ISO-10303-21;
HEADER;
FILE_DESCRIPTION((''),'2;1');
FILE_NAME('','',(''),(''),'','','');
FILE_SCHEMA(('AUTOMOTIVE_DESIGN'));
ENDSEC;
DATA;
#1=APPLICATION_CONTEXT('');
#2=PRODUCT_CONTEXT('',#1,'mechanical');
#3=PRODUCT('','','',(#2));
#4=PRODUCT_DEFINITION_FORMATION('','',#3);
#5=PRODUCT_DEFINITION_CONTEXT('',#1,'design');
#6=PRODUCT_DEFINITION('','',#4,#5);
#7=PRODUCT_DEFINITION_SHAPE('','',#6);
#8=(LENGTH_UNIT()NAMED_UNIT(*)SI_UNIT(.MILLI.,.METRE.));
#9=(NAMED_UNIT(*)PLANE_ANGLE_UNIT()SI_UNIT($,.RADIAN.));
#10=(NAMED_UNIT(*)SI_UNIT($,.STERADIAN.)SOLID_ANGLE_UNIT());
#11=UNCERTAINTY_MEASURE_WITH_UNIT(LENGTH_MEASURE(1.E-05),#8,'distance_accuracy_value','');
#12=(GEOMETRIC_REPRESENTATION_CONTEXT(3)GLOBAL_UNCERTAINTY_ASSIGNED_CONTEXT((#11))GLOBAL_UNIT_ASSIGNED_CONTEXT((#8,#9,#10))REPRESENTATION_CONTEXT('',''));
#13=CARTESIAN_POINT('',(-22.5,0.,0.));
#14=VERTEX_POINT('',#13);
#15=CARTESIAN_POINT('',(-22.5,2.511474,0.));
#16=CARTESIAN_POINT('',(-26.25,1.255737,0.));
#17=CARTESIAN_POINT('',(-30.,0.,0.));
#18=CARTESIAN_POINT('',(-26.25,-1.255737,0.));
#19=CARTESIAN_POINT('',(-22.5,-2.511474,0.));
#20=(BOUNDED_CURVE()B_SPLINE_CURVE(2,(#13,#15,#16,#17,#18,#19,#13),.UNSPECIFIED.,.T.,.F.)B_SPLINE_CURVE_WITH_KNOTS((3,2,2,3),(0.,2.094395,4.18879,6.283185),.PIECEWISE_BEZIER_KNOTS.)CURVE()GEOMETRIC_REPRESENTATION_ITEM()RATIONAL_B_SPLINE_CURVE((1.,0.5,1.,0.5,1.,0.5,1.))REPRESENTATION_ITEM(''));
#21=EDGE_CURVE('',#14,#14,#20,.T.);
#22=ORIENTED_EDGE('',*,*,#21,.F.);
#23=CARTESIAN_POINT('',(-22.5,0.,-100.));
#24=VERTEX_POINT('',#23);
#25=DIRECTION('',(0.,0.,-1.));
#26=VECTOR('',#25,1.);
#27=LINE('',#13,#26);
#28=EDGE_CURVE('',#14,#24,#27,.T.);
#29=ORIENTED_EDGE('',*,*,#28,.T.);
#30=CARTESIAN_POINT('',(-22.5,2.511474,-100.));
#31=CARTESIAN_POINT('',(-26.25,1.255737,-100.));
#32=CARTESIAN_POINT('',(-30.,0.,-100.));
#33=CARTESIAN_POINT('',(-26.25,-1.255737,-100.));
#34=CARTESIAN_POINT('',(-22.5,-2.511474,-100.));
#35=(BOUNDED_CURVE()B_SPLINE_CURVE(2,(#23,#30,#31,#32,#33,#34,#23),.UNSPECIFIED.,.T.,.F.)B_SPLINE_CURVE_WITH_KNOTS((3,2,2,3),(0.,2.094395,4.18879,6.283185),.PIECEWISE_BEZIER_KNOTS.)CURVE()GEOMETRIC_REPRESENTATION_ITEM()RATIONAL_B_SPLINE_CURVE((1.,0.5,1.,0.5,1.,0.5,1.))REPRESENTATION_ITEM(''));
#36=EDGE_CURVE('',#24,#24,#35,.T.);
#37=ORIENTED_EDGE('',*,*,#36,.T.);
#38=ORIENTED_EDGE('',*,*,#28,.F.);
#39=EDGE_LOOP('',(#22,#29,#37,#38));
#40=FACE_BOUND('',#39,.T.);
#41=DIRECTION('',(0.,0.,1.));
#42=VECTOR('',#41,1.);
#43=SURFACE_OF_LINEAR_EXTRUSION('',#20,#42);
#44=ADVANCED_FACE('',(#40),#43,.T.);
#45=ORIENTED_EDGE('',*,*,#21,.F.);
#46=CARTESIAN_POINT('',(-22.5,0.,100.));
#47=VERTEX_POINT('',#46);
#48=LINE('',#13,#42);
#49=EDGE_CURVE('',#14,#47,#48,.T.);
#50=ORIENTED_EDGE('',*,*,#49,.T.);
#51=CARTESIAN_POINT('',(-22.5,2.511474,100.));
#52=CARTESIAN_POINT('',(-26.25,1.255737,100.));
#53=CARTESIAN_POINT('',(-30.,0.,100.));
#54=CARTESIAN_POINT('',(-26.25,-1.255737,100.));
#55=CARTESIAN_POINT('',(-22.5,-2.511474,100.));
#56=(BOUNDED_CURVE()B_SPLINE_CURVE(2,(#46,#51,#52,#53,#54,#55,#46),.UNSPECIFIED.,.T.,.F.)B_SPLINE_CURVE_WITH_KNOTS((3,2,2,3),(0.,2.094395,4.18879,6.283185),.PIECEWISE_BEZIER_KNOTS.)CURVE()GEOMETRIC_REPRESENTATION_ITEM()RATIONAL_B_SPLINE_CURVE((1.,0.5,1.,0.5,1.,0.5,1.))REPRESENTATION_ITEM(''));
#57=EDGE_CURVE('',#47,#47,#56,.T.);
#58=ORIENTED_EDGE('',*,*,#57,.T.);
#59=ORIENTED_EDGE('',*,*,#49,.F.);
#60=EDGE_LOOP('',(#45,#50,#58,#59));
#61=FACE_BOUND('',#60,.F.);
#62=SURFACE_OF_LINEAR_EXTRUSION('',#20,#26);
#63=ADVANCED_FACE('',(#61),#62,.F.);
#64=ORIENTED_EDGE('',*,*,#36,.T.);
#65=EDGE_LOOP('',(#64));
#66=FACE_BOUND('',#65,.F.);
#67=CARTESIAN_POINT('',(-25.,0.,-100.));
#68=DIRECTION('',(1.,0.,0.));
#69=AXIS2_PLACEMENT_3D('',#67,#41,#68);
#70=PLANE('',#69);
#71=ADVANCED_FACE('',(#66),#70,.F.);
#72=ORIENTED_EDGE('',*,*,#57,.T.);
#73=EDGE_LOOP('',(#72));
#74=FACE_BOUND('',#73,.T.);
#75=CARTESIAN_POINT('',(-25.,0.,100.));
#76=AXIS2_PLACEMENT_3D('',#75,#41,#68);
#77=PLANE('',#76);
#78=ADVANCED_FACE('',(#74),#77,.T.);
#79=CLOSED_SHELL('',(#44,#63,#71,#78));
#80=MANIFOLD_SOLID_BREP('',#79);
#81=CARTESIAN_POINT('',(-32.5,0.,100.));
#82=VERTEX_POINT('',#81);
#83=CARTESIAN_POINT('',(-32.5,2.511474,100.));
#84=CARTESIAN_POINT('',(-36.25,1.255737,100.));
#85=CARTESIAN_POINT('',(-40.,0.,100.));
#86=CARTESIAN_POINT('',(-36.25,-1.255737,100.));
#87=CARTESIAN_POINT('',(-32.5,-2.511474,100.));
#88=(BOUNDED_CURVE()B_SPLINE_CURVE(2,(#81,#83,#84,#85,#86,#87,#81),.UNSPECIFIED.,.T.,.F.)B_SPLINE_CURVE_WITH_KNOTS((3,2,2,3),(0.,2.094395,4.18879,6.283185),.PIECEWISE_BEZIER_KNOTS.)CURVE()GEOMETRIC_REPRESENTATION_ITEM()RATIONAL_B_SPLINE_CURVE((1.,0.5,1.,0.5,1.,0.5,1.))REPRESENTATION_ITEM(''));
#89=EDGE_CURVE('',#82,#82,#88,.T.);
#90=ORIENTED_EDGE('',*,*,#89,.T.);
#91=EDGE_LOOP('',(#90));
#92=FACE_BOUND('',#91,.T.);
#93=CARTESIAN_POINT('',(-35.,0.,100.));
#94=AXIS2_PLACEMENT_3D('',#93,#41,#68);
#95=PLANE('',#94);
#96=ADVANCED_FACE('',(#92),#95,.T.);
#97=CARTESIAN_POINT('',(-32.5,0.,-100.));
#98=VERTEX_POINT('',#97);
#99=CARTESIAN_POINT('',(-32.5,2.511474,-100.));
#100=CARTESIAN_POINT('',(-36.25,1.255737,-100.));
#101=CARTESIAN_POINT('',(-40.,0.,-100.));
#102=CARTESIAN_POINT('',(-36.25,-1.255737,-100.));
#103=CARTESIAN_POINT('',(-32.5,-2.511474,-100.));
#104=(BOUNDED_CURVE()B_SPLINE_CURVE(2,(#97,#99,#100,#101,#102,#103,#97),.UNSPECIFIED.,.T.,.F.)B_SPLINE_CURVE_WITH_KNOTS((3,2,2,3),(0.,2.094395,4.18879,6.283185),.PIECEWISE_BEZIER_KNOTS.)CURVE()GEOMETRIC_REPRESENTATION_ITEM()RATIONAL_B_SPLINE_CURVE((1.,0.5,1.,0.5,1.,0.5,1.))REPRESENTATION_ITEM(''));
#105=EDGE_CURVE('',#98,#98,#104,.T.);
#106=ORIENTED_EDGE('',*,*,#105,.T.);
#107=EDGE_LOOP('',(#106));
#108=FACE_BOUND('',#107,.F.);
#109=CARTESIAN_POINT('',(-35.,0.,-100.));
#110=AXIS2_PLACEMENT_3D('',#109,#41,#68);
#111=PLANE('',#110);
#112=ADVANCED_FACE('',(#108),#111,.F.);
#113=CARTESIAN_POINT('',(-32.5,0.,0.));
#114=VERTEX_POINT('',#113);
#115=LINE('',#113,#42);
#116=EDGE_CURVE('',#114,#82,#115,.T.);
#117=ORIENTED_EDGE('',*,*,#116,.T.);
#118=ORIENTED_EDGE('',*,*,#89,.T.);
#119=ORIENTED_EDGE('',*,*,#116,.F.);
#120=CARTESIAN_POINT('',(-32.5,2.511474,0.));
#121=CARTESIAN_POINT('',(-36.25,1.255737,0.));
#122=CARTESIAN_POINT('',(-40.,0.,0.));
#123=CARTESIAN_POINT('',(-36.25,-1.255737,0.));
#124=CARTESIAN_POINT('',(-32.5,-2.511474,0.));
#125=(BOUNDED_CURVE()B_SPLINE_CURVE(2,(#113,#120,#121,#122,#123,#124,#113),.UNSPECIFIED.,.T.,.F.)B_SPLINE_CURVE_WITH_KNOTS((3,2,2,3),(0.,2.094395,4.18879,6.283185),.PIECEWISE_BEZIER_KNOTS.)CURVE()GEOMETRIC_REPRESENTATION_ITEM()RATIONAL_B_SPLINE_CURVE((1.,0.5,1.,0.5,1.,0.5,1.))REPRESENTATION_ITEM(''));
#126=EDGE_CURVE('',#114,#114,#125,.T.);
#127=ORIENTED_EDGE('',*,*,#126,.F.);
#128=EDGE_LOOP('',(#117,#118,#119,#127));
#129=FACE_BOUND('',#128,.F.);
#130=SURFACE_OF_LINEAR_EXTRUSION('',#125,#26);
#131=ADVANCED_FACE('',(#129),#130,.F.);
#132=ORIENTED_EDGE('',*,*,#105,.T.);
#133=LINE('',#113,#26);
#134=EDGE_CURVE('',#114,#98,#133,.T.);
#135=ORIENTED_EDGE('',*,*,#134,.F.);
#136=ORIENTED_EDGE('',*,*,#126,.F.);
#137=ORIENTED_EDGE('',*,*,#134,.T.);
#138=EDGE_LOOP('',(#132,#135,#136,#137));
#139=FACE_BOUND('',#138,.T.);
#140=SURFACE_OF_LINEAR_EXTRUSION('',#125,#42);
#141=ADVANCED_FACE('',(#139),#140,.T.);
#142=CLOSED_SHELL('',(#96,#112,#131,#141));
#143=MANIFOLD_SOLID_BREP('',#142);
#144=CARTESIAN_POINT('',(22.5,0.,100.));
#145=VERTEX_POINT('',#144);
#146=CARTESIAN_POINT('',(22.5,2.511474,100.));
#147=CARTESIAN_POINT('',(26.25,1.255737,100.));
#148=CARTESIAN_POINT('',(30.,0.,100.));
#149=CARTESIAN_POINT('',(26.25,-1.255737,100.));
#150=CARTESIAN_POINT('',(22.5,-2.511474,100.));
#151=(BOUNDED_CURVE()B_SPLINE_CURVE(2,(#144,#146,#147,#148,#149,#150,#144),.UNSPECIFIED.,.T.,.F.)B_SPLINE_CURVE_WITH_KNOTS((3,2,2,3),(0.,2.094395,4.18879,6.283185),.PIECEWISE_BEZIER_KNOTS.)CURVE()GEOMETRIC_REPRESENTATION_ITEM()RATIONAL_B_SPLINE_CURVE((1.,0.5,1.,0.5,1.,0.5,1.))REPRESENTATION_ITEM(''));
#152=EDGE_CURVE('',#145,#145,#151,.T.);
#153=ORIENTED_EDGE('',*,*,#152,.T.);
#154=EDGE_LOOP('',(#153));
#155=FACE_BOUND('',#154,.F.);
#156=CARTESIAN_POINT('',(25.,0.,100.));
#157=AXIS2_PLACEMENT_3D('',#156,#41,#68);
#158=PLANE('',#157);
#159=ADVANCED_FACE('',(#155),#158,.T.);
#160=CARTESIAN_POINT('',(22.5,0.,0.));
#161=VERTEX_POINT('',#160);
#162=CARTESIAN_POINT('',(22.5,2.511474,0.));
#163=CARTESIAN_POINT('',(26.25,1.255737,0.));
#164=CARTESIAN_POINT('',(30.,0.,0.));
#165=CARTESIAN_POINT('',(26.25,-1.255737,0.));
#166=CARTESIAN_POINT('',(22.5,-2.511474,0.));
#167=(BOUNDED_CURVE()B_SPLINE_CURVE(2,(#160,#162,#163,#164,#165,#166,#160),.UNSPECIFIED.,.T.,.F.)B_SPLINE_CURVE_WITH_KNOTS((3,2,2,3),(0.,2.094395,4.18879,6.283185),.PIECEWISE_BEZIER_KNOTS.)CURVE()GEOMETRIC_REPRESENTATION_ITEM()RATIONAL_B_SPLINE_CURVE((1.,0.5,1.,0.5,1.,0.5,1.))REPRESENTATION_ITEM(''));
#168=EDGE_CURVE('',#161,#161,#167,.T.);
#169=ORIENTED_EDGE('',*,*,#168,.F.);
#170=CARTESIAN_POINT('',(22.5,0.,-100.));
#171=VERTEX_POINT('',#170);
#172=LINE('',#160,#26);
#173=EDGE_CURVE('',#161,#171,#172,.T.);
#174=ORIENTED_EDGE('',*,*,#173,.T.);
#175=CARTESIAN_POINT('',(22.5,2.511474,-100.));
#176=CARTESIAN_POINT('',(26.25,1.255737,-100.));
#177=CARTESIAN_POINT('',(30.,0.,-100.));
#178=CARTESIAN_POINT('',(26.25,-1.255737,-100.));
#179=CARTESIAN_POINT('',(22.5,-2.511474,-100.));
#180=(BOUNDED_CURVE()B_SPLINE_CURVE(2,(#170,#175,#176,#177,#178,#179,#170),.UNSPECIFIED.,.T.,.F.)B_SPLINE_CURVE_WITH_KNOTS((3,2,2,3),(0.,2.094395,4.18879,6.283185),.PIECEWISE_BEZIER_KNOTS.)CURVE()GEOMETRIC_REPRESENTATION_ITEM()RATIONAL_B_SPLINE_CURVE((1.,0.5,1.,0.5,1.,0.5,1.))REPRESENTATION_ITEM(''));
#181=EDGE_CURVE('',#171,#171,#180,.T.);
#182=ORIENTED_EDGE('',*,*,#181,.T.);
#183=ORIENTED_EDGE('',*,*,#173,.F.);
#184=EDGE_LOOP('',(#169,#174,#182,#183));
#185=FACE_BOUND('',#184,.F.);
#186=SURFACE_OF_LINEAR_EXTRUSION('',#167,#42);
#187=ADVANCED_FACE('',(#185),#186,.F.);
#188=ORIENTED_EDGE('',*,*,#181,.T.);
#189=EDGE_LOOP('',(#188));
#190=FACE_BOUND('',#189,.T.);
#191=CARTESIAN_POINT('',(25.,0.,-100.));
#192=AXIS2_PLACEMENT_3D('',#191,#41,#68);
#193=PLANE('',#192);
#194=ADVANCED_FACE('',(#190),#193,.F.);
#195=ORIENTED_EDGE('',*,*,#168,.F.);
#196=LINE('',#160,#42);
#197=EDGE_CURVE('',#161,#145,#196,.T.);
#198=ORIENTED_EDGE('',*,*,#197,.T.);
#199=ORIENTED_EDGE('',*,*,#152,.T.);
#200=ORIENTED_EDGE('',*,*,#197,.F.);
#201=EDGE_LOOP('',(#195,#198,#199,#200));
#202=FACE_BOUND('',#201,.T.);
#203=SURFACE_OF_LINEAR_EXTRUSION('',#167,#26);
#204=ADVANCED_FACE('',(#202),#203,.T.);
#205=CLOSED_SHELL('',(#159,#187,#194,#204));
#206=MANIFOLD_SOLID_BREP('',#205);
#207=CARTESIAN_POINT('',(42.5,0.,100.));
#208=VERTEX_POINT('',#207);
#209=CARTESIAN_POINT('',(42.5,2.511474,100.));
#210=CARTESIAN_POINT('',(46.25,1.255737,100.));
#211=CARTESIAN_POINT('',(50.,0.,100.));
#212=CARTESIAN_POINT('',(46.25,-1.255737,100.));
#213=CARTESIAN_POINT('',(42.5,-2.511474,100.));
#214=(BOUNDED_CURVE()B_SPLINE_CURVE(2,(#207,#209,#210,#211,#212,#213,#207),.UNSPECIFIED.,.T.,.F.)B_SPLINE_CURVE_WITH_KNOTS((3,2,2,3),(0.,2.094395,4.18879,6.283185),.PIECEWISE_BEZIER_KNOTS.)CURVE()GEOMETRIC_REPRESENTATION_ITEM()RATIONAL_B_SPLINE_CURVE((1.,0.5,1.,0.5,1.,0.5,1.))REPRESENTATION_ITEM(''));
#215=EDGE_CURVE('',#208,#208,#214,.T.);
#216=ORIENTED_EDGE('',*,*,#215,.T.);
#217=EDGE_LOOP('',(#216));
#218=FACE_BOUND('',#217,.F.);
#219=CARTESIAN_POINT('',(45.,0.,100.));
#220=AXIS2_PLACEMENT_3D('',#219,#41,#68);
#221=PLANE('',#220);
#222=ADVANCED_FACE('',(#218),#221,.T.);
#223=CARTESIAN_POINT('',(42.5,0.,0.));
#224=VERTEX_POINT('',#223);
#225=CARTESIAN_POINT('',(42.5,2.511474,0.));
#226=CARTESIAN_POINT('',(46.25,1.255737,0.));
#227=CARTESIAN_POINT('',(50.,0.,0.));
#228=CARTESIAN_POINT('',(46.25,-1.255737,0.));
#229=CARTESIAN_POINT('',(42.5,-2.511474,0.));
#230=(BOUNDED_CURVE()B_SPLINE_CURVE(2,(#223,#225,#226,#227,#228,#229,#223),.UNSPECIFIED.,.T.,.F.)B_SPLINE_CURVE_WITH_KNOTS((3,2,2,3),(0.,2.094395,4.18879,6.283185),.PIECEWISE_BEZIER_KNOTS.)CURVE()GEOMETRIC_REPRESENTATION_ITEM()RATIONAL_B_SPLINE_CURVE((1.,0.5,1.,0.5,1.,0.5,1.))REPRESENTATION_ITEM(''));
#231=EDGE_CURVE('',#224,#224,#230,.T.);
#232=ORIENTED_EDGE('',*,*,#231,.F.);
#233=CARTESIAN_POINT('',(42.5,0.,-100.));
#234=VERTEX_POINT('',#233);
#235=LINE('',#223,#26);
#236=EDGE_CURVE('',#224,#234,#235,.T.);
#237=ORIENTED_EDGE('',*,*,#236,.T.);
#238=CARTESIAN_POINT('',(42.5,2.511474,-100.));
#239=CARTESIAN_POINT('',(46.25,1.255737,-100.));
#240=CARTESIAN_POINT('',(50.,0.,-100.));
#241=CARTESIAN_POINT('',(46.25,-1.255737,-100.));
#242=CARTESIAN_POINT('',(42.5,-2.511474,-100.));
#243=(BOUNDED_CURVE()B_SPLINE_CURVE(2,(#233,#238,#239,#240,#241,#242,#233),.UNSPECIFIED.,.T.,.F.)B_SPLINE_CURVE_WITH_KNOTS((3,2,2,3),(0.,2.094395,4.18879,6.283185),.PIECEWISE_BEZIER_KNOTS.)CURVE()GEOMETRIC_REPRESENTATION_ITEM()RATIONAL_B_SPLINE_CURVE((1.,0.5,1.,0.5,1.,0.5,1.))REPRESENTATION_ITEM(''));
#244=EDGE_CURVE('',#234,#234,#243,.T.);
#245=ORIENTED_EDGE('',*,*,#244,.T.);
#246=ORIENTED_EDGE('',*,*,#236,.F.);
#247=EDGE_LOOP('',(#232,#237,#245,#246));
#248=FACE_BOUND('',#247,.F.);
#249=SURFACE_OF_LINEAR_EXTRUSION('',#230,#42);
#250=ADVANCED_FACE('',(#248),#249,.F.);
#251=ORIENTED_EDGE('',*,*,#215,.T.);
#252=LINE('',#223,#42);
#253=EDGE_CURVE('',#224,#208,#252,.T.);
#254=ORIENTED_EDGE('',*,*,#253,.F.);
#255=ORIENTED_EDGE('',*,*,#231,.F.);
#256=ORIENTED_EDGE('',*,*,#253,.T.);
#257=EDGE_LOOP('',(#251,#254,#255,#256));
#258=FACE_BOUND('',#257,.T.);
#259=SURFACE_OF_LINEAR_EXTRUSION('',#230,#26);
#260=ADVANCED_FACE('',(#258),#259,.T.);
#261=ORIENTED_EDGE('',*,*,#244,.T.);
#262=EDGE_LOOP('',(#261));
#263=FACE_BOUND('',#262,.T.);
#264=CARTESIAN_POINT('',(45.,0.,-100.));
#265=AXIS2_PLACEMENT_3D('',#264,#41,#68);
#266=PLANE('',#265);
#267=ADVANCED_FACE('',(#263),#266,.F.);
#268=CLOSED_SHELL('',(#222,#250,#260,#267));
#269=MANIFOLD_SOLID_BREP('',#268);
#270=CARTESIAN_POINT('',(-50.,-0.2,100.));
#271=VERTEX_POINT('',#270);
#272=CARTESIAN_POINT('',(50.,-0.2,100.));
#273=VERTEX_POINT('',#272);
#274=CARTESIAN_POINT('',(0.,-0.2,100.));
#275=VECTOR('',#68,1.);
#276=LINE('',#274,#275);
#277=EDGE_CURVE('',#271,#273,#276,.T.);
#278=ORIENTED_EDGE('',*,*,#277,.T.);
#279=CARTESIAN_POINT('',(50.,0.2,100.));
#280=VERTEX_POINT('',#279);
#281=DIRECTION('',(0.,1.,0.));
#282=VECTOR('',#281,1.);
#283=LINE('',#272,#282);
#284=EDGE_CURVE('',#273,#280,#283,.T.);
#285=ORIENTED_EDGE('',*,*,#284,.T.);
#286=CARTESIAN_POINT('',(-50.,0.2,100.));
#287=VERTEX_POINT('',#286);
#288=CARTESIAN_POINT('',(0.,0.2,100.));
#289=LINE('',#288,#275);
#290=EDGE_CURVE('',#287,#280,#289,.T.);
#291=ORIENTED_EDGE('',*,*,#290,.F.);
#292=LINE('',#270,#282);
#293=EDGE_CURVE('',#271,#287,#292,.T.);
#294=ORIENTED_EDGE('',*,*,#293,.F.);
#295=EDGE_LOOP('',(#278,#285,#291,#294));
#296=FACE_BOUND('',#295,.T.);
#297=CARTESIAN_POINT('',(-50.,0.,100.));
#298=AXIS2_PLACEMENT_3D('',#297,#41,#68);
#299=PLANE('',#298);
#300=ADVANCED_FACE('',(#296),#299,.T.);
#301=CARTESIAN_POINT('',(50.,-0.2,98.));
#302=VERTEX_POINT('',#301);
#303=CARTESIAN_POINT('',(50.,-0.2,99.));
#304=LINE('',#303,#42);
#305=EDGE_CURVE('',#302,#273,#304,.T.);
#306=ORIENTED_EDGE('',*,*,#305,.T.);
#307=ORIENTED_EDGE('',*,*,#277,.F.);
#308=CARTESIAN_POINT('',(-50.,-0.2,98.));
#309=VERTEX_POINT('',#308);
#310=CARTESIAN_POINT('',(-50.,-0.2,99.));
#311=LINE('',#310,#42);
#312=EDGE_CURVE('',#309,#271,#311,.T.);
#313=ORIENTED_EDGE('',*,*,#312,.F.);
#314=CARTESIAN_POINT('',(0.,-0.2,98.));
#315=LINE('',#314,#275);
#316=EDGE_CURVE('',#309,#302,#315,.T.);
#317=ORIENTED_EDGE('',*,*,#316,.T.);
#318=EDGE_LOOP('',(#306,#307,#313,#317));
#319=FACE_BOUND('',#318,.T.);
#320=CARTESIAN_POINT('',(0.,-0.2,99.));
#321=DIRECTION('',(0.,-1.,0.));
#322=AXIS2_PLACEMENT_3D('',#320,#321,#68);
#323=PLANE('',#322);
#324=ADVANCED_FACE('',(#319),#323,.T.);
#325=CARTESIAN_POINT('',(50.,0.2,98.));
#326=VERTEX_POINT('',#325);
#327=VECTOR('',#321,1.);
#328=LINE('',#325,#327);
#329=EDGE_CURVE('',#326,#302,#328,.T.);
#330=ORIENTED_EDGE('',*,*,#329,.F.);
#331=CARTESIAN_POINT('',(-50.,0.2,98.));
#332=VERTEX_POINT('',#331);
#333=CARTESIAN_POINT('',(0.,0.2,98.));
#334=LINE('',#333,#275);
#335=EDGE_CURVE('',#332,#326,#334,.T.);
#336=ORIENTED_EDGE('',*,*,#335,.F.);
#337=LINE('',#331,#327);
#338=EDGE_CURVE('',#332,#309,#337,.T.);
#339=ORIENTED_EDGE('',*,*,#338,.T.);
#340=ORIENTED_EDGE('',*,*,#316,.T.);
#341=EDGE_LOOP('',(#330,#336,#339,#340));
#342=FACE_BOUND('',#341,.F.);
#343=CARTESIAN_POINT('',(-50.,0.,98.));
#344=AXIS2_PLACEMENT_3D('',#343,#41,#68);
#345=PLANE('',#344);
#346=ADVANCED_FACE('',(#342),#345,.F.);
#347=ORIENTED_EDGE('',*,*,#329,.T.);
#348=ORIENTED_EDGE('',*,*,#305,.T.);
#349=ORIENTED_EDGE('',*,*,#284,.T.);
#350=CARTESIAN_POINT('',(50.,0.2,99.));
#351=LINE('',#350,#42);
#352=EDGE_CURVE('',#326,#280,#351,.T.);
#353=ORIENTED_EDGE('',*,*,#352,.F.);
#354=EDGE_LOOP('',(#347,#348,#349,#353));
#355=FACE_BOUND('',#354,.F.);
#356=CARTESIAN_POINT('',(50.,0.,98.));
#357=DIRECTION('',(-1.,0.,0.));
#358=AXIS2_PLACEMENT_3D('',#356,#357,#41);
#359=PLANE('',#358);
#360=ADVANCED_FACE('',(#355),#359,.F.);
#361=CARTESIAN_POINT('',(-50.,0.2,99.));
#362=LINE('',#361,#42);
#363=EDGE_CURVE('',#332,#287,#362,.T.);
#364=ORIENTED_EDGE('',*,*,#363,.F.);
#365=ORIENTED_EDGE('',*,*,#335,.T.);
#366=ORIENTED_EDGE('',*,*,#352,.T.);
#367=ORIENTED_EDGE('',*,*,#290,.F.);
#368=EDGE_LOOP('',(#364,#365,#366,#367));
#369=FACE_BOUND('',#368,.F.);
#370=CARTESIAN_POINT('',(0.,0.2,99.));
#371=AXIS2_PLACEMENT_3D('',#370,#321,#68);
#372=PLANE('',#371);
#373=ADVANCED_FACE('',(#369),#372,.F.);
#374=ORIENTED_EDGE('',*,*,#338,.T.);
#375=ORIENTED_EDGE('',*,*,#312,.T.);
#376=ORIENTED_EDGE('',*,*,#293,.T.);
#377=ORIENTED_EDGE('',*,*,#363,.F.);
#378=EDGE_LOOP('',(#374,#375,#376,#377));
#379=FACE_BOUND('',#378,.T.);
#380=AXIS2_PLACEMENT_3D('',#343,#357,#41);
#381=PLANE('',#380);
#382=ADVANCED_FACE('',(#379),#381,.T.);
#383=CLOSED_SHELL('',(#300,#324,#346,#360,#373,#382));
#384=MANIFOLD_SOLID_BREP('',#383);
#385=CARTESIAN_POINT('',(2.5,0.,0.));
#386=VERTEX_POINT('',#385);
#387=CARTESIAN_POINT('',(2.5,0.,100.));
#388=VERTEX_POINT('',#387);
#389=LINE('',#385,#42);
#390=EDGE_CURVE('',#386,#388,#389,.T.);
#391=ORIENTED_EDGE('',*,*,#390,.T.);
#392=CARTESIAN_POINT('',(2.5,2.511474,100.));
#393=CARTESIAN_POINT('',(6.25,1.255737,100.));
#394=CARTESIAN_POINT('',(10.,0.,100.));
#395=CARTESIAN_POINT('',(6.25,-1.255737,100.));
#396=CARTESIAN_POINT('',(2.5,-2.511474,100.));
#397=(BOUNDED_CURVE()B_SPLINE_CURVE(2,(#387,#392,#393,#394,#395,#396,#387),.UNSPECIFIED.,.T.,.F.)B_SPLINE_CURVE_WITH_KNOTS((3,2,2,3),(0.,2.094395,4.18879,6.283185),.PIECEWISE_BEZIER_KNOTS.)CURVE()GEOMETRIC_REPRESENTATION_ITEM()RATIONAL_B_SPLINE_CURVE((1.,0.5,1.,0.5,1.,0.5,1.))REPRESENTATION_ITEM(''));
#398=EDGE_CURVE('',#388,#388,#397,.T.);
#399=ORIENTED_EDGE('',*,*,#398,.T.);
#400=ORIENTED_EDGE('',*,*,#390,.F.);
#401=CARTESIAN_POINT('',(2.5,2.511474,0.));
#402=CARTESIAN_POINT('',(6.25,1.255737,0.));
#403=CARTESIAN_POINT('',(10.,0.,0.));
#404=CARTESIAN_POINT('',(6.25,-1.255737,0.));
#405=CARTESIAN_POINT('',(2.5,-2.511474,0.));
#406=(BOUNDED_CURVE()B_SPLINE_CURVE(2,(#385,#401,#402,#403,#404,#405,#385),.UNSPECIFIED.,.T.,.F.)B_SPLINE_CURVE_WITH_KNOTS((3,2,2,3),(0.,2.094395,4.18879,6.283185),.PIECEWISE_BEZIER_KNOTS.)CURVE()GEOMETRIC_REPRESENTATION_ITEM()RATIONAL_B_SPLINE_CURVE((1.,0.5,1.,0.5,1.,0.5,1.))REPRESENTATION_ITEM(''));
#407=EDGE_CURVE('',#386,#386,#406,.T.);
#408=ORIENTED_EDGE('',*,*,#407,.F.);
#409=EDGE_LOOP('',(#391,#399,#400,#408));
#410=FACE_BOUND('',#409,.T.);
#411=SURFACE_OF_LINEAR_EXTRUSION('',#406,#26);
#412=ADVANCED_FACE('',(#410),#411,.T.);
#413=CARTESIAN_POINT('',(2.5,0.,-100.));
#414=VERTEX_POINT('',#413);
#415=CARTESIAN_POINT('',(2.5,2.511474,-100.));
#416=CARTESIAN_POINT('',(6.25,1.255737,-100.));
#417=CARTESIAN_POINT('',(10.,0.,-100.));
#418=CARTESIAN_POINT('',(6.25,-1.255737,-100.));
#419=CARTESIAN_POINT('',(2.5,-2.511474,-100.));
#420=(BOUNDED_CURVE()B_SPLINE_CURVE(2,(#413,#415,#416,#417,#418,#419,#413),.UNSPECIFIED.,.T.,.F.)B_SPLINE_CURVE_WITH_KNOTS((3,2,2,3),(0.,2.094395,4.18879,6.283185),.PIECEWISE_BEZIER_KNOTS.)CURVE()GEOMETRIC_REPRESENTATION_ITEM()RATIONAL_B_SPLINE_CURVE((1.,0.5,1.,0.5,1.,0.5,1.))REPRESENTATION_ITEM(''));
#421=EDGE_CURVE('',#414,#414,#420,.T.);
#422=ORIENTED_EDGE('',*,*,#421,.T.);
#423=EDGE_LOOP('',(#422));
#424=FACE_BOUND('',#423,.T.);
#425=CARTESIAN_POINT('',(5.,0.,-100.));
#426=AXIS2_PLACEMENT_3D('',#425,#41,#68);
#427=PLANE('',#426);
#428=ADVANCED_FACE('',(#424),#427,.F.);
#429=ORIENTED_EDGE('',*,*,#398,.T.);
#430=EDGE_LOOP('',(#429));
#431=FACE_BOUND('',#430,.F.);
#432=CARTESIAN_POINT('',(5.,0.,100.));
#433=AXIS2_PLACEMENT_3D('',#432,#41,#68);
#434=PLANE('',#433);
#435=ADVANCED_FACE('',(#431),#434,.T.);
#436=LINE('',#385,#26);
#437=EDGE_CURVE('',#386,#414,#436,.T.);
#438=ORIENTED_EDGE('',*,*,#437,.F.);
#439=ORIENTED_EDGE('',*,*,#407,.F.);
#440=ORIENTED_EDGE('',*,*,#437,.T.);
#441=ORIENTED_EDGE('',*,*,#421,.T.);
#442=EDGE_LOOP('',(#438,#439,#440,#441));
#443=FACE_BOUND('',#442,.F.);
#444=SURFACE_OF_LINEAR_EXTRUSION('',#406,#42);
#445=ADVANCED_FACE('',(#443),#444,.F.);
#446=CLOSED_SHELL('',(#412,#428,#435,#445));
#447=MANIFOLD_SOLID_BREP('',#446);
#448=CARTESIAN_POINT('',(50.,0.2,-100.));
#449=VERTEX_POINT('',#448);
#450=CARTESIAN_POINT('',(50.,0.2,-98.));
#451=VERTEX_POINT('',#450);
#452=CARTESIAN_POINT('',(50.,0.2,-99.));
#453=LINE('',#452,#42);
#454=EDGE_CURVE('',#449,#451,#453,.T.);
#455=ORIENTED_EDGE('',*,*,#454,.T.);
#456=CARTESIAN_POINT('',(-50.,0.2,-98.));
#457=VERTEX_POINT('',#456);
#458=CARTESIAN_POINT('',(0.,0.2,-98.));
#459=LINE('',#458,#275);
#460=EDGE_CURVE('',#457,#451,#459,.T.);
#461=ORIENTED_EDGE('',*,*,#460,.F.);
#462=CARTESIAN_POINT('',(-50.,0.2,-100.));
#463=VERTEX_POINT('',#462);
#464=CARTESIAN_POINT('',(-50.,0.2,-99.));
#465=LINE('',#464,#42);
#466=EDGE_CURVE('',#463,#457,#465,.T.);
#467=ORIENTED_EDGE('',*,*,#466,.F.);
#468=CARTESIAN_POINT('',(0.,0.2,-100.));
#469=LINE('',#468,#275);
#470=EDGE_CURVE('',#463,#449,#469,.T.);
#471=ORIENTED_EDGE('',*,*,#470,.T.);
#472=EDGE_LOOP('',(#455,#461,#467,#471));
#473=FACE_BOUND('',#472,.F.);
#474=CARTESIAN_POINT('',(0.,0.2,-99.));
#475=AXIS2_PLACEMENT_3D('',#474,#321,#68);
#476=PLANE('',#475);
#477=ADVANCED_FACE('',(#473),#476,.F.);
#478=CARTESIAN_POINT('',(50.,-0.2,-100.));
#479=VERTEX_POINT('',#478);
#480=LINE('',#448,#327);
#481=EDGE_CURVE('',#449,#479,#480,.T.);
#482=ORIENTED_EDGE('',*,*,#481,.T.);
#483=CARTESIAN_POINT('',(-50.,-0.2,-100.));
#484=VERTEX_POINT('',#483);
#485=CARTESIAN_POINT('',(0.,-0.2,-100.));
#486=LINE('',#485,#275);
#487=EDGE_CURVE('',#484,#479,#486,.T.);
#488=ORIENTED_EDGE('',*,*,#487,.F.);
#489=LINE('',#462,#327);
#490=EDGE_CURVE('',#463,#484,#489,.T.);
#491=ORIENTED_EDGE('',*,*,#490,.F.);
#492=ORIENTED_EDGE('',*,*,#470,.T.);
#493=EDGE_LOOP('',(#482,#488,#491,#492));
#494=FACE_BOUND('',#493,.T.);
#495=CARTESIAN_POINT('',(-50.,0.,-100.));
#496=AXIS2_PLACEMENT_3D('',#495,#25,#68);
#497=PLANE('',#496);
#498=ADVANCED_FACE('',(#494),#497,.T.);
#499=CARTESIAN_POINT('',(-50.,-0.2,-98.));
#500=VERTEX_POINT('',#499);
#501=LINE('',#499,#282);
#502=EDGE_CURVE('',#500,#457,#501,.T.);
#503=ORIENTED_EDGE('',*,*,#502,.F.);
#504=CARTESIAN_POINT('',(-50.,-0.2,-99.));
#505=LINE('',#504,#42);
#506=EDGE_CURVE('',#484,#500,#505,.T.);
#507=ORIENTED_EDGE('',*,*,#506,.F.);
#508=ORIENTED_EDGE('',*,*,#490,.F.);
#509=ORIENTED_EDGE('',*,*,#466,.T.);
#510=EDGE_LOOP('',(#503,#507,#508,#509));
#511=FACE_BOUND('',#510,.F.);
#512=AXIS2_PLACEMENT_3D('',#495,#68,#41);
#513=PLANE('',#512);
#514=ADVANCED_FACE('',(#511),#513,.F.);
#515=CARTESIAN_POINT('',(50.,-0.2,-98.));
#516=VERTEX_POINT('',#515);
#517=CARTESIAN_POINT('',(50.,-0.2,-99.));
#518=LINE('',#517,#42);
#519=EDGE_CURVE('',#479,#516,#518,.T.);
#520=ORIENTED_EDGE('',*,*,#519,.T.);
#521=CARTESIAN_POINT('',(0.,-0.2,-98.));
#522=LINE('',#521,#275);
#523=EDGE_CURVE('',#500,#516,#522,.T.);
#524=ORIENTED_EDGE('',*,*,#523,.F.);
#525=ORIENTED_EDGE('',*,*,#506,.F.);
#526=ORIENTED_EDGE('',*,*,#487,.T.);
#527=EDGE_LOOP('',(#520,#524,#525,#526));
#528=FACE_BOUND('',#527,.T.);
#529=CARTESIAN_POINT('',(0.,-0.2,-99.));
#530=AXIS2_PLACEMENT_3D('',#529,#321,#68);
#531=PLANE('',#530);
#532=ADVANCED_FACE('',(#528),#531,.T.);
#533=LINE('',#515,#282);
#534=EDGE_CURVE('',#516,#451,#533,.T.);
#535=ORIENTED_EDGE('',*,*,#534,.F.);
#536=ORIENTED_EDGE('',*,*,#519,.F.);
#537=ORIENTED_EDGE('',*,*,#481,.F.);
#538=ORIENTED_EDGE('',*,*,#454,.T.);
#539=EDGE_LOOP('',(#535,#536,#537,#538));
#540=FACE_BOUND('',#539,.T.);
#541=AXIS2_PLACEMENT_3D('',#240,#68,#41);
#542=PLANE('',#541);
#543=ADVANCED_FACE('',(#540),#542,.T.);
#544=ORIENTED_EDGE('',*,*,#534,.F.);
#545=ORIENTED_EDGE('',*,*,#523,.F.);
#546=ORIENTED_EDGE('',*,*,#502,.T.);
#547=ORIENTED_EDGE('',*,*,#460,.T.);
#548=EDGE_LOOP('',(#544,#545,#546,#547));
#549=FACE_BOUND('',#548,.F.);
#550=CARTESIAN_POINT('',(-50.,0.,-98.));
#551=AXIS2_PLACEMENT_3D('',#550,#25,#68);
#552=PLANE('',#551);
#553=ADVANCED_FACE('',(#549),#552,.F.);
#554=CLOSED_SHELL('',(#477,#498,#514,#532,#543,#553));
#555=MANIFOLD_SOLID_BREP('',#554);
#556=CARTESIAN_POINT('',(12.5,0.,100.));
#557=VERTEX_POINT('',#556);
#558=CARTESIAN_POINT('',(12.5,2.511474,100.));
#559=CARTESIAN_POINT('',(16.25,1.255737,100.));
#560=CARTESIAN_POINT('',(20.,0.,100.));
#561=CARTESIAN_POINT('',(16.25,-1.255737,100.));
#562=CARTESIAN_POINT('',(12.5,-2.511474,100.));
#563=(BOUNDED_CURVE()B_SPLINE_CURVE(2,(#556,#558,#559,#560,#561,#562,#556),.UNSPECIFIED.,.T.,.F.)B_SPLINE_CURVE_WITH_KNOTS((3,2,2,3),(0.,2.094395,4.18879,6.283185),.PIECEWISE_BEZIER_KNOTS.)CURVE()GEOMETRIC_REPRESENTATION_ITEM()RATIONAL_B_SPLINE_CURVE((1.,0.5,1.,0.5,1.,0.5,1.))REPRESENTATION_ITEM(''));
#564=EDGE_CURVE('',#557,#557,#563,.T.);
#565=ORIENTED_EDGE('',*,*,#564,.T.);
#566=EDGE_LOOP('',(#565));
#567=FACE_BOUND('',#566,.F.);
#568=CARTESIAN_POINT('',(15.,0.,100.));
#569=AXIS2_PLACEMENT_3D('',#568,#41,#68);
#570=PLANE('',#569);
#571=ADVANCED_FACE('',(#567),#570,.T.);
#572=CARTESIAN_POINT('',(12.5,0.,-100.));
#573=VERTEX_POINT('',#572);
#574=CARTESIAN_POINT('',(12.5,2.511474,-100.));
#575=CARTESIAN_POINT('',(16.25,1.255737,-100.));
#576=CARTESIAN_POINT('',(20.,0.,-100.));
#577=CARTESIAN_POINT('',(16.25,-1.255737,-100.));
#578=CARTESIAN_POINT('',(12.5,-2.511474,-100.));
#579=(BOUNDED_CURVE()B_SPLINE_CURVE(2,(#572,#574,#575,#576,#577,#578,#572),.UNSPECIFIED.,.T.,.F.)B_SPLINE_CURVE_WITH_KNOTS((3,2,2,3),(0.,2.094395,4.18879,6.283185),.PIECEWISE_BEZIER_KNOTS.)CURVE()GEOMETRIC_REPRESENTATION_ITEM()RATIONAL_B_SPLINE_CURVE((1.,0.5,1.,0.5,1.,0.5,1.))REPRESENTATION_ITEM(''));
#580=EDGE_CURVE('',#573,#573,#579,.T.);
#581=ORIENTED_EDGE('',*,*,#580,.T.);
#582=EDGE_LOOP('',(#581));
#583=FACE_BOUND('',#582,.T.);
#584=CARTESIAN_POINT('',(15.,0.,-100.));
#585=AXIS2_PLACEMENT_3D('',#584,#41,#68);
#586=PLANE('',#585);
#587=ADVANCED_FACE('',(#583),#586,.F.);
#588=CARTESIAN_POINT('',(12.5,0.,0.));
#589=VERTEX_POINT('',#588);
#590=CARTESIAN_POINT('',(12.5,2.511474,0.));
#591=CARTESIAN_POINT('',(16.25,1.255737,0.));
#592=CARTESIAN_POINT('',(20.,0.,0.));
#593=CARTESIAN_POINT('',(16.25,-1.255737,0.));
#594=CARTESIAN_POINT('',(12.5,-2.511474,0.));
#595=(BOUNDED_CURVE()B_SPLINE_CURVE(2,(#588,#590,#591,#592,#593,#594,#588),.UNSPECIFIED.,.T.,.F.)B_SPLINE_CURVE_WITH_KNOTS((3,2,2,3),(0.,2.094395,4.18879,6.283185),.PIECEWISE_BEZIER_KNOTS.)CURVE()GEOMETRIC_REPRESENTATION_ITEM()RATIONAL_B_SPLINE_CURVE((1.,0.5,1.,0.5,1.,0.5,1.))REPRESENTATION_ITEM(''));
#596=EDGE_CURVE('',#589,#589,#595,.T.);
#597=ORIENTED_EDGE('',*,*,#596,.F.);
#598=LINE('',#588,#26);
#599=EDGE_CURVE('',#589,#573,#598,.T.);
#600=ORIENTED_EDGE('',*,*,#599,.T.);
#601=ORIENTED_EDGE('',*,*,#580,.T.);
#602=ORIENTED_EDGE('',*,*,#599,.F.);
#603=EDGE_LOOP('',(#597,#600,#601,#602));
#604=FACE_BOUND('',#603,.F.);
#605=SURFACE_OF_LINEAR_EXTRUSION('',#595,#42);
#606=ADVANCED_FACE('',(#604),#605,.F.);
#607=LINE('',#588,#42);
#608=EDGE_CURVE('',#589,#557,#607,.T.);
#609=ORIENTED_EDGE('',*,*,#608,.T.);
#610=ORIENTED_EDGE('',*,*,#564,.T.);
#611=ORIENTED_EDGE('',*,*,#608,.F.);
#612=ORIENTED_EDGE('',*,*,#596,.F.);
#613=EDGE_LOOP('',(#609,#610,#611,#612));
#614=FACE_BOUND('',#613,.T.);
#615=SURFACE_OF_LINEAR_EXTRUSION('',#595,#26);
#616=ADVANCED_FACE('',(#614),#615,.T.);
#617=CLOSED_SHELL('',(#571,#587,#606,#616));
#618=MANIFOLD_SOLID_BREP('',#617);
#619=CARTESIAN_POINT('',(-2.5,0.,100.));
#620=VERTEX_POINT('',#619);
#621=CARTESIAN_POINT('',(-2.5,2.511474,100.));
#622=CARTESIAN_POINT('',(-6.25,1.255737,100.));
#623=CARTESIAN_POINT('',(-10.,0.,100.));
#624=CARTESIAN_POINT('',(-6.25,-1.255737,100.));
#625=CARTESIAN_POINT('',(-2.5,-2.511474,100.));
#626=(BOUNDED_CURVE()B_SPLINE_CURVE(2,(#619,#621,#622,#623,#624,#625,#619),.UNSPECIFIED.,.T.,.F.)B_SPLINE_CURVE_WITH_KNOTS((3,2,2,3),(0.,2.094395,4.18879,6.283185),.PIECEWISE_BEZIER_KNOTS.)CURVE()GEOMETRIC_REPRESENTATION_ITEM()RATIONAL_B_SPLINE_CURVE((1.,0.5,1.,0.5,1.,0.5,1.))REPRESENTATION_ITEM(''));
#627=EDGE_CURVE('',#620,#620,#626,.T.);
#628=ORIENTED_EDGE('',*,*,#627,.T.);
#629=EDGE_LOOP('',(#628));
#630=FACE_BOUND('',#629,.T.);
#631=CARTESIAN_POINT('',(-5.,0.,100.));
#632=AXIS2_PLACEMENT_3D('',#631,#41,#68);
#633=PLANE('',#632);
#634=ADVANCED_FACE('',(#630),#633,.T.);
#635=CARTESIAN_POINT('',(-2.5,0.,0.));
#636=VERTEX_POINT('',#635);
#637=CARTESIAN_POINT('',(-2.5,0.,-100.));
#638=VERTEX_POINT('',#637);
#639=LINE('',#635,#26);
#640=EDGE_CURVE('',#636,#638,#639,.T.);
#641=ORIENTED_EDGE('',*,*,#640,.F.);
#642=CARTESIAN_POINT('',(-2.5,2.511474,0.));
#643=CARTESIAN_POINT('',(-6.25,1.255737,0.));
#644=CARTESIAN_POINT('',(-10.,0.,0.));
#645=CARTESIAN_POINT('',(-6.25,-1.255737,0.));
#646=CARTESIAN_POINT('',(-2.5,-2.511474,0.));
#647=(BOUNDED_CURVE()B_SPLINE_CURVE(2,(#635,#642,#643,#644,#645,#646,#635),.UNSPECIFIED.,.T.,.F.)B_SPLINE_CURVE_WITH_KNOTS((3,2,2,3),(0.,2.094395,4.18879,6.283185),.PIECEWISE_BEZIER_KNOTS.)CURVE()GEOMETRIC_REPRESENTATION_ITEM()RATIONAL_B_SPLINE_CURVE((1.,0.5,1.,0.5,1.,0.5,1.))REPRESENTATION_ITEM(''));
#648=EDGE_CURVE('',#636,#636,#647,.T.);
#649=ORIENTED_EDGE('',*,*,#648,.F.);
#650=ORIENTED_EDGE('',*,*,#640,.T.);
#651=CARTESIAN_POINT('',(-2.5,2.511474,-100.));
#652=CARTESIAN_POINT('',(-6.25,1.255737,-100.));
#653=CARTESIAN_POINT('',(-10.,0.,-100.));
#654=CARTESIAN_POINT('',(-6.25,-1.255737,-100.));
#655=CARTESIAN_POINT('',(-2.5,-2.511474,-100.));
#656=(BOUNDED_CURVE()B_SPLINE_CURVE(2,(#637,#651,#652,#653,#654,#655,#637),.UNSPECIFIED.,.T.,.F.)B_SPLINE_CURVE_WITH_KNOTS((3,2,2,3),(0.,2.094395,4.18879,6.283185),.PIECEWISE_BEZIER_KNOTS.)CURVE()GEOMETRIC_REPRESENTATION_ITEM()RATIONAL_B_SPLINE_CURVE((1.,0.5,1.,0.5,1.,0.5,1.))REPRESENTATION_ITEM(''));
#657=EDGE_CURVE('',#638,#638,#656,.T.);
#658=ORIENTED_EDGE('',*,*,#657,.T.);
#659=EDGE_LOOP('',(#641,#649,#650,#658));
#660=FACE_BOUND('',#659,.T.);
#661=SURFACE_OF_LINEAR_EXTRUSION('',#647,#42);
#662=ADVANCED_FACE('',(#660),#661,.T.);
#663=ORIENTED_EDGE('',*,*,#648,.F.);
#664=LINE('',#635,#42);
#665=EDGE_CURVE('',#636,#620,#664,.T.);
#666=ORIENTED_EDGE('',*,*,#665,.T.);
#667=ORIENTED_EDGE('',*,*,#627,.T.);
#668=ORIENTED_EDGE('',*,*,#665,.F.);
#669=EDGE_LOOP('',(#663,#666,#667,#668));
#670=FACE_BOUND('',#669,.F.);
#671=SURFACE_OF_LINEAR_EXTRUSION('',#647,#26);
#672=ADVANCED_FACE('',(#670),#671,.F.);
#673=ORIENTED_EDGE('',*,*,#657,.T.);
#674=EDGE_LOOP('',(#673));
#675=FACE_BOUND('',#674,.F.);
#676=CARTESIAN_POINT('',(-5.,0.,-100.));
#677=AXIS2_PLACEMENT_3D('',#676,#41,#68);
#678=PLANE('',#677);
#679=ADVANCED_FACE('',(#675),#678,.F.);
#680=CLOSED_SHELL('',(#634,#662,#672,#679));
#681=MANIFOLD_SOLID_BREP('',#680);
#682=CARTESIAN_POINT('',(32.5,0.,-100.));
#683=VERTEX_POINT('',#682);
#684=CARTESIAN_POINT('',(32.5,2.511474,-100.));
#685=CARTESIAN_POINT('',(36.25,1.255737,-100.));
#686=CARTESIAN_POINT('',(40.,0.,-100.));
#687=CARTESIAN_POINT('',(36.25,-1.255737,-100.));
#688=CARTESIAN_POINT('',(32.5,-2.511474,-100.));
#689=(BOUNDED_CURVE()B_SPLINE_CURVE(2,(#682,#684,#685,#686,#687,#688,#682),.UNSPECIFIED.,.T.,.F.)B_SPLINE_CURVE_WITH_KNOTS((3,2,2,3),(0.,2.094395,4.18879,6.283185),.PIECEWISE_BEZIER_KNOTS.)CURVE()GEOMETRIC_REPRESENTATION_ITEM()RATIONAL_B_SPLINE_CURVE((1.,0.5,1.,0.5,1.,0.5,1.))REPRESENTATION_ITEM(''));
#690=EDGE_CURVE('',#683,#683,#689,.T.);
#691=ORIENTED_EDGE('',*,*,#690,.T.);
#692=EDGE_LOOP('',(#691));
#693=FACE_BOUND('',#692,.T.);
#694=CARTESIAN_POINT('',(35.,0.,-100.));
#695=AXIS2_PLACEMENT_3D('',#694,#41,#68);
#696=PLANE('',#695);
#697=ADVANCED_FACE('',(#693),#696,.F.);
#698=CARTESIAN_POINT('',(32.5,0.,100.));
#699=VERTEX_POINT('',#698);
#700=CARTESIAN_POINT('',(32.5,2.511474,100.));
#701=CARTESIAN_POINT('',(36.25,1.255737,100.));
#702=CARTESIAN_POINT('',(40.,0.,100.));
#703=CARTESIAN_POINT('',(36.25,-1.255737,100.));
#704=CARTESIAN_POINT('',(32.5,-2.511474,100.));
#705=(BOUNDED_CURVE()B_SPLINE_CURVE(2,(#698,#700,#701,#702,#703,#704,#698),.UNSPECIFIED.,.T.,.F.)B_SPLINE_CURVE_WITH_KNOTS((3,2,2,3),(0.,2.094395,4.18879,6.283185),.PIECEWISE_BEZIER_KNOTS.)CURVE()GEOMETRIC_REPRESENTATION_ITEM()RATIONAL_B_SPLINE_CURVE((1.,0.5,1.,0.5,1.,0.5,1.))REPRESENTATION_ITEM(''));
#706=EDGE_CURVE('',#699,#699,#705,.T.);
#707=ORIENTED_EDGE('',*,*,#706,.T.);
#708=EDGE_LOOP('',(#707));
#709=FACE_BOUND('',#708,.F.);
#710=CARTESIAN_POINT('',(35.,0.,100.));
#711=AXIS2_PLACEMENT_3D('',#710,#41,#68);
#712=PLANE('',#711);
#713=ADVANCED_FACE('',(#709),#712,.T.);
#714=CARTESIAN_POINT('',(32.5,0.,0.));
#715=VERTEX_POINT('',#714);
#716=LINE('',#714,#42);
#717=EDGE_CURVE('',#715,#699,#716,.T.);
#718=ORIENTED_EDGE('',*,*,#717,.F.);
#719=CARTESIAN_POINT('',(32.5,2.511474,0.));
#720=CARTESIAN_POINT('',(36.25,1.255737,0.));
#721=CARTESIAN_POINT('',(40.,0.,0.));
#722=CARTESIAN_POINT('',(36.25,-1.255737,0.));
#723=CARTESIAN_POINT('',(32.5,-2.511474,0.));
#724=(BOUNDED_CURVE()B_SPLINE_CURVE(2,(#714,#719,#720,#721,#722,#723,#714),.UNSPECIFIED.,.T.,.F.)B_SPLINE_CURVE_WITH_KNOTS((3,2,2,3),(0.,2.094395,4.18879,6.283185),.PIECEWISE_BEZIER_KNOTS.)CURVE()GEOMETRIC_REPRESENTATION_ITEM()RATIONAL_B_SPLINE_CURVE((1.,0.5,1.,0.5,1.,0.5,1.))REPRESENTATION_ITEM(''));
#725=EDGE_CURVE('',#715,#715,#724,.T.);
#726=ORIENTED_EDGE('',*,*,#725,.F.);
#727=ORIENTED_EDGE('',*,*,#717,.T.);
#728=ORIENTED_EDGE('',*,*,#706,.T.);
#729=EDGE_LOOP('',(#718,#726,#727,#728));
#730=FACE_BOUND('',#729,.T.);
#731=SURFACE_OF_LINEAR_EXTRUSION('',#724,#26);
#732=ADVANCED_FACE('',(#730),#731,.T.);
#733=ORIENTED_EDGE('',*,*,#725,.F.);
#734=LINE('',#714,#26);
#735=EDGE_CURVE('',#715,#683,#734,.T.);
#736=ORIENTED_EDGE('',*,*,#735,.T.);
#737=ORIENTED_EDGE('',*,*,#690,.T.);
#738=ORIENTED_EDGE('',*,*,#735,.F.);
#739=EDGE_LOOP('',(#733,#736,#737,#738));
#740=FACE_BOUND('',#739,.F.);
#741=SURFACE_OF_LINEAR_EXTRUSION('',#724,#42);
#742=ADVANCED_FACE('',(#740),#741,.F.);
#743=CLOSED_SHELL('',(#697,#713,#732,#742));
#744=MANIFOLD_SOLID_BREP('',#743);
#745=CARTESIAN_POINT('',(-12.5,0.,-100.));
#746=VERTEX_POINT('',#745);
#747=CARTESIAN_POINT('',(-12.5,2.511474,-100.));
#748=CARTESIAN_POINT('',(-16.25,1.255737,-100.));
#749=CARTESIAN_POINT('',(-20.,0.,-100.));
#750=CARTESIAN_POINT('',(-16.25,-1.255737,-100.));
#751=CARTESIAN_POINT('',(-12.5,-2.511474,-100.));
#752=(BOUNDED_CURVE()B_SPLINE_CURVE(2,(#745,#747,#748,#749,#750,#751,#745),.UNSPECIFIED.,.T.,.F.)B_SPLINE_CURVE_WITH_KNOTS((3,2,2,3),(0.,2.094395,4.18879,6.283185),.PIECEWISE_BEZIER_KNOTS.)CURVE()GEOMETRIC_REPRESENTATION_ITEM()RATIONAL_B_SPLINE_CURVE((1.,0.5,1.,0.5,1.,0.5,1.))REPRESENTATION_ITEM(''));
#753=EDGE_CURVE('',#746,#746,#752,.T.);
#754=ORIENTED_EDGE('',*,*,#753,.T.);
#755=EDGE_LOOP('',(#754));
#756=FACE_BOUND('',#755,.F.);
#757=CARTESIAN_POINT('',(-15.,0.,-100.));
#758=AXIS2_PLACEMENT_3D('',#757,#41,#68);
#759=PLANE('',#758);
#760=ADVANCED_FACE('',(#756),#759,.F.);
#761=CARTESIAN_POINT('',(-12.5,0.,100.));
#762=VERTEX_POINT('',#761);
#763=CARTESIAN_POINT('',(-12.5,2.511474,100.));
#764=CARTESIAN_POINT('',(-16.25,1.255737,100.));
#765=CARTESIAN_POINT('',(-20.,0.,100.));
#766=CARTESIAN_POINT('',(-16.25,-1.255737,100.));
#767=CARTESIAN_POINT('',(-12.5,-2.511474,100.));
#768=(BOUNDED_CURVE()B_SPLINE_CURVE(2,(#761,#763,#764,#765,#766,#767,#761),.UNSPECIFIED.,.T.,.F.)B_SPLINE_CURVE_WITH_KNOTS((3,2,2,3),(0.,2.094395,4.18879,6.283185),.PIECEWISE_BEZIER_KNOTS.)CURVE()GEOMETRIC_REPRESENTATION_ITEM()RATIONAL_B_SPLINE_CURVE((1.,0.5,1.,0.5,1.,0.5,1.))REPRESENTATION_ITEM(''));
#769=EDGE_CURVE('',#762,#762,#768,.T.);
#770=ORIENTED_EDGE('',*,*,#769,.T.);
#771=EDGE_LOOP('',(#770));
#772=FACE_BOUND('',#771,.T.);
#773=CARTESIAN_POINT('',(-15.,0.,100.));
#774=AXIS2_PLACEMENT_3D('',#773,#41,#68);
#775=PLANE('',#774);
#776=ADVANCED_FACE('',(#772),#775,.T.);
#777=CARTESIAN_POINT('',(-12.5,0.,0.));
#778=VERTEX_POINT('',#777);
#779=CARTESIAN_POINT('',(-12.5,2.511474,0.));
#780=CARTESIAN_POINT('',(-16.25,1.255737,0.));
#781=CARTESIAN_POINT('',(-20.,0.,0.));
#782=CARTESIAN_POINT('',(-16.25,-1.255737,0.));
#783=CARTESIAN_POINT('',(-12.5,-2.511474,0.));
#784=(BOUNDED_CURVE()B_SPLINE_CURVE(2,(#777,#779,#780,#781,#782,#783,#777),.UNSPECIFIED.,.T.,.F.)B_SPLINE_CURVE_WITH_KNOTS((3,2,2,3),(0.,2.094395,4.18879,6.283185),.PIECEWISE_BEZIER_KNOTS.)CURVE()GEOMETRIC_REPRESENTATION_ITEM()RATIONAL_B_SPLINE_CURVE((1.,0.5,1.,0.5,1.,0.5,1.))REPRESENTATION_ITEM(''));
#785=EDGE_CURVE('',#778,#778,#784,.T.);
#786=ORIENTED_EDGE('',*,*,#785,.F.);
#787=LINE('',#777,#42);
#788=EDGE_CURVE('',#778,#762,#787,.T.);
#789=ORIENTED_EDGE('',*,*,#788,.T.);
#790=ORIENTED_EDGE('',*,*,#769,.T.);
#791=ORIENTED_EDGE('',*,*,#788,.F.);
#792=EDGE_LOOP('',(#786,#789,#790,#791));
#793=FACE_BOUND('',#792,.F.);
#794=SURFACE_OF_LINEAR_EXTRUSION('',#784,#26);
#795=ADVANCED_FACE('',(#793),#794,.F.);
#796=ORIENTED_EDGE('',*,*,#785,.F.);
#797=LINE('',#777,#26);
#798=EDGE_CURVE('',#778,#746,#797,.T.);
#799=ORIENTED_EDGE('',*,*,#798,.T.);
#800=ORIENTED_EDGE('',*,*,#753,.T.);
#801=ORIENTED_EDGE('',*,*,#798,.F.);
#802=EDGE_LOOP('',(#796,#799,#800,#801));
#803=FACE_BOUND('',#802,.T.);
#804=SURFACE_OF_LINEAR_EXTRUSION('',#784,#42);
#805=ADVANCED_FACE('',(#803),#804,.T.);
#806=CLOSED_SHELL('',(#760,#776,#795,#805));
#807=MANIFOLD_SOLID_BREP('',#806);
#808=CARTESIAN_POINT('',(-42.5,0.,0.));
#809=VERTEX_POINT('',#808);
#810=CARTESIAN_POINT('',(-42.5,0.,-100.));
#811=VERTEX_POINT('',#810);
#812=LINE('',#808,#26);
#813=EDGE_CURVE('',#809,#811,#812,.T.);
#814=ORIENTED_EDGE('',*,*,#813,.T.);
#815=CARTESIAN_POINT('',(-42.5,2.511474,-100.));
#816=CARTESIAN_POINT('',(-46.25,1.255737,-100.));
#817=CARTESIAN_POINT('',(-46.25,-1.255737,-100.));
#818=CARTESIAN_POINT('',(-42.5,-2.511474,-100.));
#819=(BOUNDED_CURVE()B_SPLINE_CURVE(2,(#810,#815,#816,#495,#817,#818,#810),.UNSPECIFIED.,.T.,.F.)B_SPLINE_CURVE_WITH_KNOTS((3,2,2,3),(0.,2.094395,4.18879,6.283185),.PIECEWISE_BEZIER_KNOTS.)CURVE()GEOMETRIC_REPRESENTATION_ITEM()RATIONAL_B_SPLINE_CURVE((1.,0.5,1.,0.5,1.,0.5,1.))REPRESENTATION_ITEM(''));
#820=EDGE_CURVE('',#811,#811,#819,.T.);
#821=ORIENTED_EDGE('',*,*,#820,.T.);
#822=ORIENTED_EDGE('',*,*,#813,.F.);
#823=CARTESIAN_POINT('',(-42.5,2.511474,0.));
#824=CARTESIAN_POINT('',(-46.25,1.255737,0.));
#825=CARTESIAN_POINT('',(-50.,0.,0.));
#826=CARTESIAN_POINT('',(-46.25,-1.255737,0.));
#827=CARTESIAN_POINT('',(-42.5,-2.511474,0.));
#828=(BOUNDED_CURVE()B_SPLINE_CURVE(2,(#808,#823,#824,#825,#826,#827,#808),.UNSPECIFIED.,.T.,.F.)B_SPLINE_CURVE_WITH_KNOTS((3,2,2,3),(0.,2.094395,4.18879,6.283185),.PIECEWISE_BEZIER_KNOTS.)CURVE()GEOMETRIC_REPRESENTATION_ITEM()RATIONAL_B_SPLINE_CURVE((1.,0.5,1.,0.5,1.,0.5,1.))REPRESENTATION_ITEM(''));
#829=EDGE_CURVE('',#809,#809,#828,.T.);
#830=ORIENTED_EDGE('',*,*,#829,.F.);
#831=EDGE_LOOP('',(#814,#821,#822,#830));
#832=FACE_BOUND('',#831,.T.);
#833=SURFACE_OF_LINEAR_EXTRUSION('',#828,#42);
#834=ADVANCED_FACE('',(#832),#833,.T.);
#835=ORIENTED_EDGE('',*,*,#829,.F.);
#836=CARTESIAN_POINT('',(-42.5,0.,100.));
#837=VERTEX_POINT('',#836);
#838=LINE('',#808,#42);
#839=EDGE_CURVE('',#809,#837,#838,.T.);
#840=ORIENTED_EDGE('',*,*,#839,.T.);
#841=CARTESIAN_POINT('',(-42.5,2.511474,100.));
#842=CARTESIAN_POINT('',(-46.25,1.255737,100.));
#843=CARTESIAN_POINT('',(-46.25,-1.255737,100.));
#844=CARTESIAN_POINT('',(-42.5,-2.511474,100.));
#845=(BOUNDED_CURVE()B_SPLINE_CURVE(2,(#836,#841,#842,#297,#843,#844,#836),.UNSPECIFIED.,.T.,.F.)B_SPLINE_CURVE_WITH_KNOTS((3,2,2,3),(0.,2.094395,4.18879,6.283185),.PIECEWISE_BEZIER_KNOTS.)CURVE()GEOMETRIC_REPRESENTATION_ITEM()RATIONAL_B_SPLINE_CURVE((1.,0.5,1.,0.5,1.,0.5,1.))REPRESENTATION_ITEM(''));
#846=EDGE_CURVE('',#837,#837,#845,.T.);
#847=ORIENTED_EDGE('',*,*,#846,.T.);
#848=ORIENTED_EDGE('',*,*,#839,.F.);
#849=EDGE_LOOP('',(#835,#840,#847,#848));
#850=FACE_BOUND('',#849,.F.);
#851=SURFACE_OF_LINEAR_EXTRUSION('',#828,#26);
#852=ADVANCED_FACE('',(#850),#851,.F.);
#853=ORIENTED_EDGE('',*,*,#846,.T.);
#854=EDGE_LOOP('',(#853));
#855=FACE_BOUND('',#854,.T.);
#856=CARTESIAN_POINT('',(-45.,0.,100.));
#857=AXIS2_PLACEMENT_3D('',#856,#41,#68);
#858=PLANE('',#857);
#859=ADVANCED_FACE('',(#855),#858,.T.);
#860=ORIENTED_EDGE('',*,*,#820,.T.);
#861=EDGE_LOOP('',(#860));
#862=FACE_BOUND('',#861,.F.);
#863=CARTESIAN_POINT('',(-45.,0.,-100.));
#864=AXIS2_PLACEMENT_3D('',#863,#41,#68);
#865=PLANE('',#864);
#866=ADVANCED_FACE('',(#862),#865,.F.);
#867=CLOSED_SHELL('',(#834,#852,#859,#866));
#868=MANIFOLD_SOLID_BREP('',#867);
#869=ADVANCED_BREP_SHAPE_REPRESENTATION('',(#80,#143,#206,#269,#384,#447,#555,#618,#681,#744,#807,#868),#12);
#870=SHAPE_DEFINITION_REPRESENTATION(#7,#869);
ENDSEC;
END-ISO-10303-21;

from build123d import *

# Parameters (mm, degrees)
F1_DEPTH = 100
F3_W     = 100
F3_H     = 2
F4_DEPTH = 0.2


with BuildPart() as f1:
    # F0 (on Top) → F1 (new body, symmetric)
    with BuildSketch(Plane.XY):
        with BuildLine():
            add(Edge.make_bspline(
                [(-42.5, 0), (-42.5, 2.511474), (-46.25, 1.255737), (-50, 0), (-46.25, -1.255737), (-42.5, -2.511474), (-42.5, 0)],
                knots=[0, 0, 0, 2.094395, 2.094395, 4.18879, 4.18879, 6.283185, 6.283185, 6.283185], degree=2, weights=[1, 0.5, 1, 0.5, 1, 0.5, 1]))
        make_face()
        with BuildLine():
            add(Edge.make_bspline(
                [(-32.5, 0), (-32.5, 2.511474), (-36.25, 1.255737), (-40, 0), (-36.25, -1.255737), (-32.5, -2.511474), (-32.5, 0)],
                knots=[0, 0, 0, 2.094395, 2.094395, 4.18879, 4.18879, 6.283185, 6.283185, 6.283185], degree=2, weights=[1, 0.5, 1, 0.5, 1, 0.5, 1]))
        make_face()
        with BuildLine():
            add(Edge.make_bspline(
                [(-22.5, 0), (-22.5, 2.511474), (-26.25, 1.255737), (-30, 0), (-26.25, -1.255737), (-22.5, -2.511474), (-22.5, 0)],
                knots=[0, 0, 0, 2.094395, 2.094395, 4.18879, 4.18879, 6.283185, 6.283185, 6.283185], degree=2, weights=[1, 0.5, 1, 0.5, 1, 0.5, 1]))
        make_face()
        with BuildLine():
            add(Edge.make_bspline(
                [(-12.5, 0), (-12.5, 2.511474), (-16.25, 1.255737), (-20, 0), (-16.25, -1.255737), (-12.5, -2.511474), (-12.5, 0)],
                knots=[0, 0, 0, 2.094395, 2.094395, 4.18879, 4.18879, 6.283185, 6.283185, 6.283185], degree=2, weights=[1, 0.5, 1, 0.5, 1, 0.5, 1]))
        make_face()
        with BuildLine():
            add(Edge.make_bspline(
                [(-2.5, 0), (-2.5, 2.511474), (-6.25, 1.255737), (-10, 0), (-6.25, -1.255737), (-2.5, -2.511474), (-2.5, 0)],
                knots=[0, 0, 0, 2.094395, 2.094395, 4.18879, 4.18879, 6.283185, 6.283185, 6.283185], degree=2, weights=[1, 0.5, 1, 0.5, 1, 0.5, 1]))
        make_face()
    extrude(amount=F1_DEPTH, both=True)


with BuildPart() as f2_1:
    # F2: instance of F1
    add(f1.part.mirror(Plane.YZ))


with BuildPart() as f4:
    # F3 (on Front) → F4 (new body, symmetric)
    with BuildSketch(Plane.XZ):
        with Locations((0, 99)):
            Rectangle(F3_W, F3_H)
        with Locations((0, -99)):
            Rectangle(F3_W, F3_H)
    extrude(amount=F4_DEPTH, both=True)


solid = Compound([f1.part, f2_1.part, f4.part])
